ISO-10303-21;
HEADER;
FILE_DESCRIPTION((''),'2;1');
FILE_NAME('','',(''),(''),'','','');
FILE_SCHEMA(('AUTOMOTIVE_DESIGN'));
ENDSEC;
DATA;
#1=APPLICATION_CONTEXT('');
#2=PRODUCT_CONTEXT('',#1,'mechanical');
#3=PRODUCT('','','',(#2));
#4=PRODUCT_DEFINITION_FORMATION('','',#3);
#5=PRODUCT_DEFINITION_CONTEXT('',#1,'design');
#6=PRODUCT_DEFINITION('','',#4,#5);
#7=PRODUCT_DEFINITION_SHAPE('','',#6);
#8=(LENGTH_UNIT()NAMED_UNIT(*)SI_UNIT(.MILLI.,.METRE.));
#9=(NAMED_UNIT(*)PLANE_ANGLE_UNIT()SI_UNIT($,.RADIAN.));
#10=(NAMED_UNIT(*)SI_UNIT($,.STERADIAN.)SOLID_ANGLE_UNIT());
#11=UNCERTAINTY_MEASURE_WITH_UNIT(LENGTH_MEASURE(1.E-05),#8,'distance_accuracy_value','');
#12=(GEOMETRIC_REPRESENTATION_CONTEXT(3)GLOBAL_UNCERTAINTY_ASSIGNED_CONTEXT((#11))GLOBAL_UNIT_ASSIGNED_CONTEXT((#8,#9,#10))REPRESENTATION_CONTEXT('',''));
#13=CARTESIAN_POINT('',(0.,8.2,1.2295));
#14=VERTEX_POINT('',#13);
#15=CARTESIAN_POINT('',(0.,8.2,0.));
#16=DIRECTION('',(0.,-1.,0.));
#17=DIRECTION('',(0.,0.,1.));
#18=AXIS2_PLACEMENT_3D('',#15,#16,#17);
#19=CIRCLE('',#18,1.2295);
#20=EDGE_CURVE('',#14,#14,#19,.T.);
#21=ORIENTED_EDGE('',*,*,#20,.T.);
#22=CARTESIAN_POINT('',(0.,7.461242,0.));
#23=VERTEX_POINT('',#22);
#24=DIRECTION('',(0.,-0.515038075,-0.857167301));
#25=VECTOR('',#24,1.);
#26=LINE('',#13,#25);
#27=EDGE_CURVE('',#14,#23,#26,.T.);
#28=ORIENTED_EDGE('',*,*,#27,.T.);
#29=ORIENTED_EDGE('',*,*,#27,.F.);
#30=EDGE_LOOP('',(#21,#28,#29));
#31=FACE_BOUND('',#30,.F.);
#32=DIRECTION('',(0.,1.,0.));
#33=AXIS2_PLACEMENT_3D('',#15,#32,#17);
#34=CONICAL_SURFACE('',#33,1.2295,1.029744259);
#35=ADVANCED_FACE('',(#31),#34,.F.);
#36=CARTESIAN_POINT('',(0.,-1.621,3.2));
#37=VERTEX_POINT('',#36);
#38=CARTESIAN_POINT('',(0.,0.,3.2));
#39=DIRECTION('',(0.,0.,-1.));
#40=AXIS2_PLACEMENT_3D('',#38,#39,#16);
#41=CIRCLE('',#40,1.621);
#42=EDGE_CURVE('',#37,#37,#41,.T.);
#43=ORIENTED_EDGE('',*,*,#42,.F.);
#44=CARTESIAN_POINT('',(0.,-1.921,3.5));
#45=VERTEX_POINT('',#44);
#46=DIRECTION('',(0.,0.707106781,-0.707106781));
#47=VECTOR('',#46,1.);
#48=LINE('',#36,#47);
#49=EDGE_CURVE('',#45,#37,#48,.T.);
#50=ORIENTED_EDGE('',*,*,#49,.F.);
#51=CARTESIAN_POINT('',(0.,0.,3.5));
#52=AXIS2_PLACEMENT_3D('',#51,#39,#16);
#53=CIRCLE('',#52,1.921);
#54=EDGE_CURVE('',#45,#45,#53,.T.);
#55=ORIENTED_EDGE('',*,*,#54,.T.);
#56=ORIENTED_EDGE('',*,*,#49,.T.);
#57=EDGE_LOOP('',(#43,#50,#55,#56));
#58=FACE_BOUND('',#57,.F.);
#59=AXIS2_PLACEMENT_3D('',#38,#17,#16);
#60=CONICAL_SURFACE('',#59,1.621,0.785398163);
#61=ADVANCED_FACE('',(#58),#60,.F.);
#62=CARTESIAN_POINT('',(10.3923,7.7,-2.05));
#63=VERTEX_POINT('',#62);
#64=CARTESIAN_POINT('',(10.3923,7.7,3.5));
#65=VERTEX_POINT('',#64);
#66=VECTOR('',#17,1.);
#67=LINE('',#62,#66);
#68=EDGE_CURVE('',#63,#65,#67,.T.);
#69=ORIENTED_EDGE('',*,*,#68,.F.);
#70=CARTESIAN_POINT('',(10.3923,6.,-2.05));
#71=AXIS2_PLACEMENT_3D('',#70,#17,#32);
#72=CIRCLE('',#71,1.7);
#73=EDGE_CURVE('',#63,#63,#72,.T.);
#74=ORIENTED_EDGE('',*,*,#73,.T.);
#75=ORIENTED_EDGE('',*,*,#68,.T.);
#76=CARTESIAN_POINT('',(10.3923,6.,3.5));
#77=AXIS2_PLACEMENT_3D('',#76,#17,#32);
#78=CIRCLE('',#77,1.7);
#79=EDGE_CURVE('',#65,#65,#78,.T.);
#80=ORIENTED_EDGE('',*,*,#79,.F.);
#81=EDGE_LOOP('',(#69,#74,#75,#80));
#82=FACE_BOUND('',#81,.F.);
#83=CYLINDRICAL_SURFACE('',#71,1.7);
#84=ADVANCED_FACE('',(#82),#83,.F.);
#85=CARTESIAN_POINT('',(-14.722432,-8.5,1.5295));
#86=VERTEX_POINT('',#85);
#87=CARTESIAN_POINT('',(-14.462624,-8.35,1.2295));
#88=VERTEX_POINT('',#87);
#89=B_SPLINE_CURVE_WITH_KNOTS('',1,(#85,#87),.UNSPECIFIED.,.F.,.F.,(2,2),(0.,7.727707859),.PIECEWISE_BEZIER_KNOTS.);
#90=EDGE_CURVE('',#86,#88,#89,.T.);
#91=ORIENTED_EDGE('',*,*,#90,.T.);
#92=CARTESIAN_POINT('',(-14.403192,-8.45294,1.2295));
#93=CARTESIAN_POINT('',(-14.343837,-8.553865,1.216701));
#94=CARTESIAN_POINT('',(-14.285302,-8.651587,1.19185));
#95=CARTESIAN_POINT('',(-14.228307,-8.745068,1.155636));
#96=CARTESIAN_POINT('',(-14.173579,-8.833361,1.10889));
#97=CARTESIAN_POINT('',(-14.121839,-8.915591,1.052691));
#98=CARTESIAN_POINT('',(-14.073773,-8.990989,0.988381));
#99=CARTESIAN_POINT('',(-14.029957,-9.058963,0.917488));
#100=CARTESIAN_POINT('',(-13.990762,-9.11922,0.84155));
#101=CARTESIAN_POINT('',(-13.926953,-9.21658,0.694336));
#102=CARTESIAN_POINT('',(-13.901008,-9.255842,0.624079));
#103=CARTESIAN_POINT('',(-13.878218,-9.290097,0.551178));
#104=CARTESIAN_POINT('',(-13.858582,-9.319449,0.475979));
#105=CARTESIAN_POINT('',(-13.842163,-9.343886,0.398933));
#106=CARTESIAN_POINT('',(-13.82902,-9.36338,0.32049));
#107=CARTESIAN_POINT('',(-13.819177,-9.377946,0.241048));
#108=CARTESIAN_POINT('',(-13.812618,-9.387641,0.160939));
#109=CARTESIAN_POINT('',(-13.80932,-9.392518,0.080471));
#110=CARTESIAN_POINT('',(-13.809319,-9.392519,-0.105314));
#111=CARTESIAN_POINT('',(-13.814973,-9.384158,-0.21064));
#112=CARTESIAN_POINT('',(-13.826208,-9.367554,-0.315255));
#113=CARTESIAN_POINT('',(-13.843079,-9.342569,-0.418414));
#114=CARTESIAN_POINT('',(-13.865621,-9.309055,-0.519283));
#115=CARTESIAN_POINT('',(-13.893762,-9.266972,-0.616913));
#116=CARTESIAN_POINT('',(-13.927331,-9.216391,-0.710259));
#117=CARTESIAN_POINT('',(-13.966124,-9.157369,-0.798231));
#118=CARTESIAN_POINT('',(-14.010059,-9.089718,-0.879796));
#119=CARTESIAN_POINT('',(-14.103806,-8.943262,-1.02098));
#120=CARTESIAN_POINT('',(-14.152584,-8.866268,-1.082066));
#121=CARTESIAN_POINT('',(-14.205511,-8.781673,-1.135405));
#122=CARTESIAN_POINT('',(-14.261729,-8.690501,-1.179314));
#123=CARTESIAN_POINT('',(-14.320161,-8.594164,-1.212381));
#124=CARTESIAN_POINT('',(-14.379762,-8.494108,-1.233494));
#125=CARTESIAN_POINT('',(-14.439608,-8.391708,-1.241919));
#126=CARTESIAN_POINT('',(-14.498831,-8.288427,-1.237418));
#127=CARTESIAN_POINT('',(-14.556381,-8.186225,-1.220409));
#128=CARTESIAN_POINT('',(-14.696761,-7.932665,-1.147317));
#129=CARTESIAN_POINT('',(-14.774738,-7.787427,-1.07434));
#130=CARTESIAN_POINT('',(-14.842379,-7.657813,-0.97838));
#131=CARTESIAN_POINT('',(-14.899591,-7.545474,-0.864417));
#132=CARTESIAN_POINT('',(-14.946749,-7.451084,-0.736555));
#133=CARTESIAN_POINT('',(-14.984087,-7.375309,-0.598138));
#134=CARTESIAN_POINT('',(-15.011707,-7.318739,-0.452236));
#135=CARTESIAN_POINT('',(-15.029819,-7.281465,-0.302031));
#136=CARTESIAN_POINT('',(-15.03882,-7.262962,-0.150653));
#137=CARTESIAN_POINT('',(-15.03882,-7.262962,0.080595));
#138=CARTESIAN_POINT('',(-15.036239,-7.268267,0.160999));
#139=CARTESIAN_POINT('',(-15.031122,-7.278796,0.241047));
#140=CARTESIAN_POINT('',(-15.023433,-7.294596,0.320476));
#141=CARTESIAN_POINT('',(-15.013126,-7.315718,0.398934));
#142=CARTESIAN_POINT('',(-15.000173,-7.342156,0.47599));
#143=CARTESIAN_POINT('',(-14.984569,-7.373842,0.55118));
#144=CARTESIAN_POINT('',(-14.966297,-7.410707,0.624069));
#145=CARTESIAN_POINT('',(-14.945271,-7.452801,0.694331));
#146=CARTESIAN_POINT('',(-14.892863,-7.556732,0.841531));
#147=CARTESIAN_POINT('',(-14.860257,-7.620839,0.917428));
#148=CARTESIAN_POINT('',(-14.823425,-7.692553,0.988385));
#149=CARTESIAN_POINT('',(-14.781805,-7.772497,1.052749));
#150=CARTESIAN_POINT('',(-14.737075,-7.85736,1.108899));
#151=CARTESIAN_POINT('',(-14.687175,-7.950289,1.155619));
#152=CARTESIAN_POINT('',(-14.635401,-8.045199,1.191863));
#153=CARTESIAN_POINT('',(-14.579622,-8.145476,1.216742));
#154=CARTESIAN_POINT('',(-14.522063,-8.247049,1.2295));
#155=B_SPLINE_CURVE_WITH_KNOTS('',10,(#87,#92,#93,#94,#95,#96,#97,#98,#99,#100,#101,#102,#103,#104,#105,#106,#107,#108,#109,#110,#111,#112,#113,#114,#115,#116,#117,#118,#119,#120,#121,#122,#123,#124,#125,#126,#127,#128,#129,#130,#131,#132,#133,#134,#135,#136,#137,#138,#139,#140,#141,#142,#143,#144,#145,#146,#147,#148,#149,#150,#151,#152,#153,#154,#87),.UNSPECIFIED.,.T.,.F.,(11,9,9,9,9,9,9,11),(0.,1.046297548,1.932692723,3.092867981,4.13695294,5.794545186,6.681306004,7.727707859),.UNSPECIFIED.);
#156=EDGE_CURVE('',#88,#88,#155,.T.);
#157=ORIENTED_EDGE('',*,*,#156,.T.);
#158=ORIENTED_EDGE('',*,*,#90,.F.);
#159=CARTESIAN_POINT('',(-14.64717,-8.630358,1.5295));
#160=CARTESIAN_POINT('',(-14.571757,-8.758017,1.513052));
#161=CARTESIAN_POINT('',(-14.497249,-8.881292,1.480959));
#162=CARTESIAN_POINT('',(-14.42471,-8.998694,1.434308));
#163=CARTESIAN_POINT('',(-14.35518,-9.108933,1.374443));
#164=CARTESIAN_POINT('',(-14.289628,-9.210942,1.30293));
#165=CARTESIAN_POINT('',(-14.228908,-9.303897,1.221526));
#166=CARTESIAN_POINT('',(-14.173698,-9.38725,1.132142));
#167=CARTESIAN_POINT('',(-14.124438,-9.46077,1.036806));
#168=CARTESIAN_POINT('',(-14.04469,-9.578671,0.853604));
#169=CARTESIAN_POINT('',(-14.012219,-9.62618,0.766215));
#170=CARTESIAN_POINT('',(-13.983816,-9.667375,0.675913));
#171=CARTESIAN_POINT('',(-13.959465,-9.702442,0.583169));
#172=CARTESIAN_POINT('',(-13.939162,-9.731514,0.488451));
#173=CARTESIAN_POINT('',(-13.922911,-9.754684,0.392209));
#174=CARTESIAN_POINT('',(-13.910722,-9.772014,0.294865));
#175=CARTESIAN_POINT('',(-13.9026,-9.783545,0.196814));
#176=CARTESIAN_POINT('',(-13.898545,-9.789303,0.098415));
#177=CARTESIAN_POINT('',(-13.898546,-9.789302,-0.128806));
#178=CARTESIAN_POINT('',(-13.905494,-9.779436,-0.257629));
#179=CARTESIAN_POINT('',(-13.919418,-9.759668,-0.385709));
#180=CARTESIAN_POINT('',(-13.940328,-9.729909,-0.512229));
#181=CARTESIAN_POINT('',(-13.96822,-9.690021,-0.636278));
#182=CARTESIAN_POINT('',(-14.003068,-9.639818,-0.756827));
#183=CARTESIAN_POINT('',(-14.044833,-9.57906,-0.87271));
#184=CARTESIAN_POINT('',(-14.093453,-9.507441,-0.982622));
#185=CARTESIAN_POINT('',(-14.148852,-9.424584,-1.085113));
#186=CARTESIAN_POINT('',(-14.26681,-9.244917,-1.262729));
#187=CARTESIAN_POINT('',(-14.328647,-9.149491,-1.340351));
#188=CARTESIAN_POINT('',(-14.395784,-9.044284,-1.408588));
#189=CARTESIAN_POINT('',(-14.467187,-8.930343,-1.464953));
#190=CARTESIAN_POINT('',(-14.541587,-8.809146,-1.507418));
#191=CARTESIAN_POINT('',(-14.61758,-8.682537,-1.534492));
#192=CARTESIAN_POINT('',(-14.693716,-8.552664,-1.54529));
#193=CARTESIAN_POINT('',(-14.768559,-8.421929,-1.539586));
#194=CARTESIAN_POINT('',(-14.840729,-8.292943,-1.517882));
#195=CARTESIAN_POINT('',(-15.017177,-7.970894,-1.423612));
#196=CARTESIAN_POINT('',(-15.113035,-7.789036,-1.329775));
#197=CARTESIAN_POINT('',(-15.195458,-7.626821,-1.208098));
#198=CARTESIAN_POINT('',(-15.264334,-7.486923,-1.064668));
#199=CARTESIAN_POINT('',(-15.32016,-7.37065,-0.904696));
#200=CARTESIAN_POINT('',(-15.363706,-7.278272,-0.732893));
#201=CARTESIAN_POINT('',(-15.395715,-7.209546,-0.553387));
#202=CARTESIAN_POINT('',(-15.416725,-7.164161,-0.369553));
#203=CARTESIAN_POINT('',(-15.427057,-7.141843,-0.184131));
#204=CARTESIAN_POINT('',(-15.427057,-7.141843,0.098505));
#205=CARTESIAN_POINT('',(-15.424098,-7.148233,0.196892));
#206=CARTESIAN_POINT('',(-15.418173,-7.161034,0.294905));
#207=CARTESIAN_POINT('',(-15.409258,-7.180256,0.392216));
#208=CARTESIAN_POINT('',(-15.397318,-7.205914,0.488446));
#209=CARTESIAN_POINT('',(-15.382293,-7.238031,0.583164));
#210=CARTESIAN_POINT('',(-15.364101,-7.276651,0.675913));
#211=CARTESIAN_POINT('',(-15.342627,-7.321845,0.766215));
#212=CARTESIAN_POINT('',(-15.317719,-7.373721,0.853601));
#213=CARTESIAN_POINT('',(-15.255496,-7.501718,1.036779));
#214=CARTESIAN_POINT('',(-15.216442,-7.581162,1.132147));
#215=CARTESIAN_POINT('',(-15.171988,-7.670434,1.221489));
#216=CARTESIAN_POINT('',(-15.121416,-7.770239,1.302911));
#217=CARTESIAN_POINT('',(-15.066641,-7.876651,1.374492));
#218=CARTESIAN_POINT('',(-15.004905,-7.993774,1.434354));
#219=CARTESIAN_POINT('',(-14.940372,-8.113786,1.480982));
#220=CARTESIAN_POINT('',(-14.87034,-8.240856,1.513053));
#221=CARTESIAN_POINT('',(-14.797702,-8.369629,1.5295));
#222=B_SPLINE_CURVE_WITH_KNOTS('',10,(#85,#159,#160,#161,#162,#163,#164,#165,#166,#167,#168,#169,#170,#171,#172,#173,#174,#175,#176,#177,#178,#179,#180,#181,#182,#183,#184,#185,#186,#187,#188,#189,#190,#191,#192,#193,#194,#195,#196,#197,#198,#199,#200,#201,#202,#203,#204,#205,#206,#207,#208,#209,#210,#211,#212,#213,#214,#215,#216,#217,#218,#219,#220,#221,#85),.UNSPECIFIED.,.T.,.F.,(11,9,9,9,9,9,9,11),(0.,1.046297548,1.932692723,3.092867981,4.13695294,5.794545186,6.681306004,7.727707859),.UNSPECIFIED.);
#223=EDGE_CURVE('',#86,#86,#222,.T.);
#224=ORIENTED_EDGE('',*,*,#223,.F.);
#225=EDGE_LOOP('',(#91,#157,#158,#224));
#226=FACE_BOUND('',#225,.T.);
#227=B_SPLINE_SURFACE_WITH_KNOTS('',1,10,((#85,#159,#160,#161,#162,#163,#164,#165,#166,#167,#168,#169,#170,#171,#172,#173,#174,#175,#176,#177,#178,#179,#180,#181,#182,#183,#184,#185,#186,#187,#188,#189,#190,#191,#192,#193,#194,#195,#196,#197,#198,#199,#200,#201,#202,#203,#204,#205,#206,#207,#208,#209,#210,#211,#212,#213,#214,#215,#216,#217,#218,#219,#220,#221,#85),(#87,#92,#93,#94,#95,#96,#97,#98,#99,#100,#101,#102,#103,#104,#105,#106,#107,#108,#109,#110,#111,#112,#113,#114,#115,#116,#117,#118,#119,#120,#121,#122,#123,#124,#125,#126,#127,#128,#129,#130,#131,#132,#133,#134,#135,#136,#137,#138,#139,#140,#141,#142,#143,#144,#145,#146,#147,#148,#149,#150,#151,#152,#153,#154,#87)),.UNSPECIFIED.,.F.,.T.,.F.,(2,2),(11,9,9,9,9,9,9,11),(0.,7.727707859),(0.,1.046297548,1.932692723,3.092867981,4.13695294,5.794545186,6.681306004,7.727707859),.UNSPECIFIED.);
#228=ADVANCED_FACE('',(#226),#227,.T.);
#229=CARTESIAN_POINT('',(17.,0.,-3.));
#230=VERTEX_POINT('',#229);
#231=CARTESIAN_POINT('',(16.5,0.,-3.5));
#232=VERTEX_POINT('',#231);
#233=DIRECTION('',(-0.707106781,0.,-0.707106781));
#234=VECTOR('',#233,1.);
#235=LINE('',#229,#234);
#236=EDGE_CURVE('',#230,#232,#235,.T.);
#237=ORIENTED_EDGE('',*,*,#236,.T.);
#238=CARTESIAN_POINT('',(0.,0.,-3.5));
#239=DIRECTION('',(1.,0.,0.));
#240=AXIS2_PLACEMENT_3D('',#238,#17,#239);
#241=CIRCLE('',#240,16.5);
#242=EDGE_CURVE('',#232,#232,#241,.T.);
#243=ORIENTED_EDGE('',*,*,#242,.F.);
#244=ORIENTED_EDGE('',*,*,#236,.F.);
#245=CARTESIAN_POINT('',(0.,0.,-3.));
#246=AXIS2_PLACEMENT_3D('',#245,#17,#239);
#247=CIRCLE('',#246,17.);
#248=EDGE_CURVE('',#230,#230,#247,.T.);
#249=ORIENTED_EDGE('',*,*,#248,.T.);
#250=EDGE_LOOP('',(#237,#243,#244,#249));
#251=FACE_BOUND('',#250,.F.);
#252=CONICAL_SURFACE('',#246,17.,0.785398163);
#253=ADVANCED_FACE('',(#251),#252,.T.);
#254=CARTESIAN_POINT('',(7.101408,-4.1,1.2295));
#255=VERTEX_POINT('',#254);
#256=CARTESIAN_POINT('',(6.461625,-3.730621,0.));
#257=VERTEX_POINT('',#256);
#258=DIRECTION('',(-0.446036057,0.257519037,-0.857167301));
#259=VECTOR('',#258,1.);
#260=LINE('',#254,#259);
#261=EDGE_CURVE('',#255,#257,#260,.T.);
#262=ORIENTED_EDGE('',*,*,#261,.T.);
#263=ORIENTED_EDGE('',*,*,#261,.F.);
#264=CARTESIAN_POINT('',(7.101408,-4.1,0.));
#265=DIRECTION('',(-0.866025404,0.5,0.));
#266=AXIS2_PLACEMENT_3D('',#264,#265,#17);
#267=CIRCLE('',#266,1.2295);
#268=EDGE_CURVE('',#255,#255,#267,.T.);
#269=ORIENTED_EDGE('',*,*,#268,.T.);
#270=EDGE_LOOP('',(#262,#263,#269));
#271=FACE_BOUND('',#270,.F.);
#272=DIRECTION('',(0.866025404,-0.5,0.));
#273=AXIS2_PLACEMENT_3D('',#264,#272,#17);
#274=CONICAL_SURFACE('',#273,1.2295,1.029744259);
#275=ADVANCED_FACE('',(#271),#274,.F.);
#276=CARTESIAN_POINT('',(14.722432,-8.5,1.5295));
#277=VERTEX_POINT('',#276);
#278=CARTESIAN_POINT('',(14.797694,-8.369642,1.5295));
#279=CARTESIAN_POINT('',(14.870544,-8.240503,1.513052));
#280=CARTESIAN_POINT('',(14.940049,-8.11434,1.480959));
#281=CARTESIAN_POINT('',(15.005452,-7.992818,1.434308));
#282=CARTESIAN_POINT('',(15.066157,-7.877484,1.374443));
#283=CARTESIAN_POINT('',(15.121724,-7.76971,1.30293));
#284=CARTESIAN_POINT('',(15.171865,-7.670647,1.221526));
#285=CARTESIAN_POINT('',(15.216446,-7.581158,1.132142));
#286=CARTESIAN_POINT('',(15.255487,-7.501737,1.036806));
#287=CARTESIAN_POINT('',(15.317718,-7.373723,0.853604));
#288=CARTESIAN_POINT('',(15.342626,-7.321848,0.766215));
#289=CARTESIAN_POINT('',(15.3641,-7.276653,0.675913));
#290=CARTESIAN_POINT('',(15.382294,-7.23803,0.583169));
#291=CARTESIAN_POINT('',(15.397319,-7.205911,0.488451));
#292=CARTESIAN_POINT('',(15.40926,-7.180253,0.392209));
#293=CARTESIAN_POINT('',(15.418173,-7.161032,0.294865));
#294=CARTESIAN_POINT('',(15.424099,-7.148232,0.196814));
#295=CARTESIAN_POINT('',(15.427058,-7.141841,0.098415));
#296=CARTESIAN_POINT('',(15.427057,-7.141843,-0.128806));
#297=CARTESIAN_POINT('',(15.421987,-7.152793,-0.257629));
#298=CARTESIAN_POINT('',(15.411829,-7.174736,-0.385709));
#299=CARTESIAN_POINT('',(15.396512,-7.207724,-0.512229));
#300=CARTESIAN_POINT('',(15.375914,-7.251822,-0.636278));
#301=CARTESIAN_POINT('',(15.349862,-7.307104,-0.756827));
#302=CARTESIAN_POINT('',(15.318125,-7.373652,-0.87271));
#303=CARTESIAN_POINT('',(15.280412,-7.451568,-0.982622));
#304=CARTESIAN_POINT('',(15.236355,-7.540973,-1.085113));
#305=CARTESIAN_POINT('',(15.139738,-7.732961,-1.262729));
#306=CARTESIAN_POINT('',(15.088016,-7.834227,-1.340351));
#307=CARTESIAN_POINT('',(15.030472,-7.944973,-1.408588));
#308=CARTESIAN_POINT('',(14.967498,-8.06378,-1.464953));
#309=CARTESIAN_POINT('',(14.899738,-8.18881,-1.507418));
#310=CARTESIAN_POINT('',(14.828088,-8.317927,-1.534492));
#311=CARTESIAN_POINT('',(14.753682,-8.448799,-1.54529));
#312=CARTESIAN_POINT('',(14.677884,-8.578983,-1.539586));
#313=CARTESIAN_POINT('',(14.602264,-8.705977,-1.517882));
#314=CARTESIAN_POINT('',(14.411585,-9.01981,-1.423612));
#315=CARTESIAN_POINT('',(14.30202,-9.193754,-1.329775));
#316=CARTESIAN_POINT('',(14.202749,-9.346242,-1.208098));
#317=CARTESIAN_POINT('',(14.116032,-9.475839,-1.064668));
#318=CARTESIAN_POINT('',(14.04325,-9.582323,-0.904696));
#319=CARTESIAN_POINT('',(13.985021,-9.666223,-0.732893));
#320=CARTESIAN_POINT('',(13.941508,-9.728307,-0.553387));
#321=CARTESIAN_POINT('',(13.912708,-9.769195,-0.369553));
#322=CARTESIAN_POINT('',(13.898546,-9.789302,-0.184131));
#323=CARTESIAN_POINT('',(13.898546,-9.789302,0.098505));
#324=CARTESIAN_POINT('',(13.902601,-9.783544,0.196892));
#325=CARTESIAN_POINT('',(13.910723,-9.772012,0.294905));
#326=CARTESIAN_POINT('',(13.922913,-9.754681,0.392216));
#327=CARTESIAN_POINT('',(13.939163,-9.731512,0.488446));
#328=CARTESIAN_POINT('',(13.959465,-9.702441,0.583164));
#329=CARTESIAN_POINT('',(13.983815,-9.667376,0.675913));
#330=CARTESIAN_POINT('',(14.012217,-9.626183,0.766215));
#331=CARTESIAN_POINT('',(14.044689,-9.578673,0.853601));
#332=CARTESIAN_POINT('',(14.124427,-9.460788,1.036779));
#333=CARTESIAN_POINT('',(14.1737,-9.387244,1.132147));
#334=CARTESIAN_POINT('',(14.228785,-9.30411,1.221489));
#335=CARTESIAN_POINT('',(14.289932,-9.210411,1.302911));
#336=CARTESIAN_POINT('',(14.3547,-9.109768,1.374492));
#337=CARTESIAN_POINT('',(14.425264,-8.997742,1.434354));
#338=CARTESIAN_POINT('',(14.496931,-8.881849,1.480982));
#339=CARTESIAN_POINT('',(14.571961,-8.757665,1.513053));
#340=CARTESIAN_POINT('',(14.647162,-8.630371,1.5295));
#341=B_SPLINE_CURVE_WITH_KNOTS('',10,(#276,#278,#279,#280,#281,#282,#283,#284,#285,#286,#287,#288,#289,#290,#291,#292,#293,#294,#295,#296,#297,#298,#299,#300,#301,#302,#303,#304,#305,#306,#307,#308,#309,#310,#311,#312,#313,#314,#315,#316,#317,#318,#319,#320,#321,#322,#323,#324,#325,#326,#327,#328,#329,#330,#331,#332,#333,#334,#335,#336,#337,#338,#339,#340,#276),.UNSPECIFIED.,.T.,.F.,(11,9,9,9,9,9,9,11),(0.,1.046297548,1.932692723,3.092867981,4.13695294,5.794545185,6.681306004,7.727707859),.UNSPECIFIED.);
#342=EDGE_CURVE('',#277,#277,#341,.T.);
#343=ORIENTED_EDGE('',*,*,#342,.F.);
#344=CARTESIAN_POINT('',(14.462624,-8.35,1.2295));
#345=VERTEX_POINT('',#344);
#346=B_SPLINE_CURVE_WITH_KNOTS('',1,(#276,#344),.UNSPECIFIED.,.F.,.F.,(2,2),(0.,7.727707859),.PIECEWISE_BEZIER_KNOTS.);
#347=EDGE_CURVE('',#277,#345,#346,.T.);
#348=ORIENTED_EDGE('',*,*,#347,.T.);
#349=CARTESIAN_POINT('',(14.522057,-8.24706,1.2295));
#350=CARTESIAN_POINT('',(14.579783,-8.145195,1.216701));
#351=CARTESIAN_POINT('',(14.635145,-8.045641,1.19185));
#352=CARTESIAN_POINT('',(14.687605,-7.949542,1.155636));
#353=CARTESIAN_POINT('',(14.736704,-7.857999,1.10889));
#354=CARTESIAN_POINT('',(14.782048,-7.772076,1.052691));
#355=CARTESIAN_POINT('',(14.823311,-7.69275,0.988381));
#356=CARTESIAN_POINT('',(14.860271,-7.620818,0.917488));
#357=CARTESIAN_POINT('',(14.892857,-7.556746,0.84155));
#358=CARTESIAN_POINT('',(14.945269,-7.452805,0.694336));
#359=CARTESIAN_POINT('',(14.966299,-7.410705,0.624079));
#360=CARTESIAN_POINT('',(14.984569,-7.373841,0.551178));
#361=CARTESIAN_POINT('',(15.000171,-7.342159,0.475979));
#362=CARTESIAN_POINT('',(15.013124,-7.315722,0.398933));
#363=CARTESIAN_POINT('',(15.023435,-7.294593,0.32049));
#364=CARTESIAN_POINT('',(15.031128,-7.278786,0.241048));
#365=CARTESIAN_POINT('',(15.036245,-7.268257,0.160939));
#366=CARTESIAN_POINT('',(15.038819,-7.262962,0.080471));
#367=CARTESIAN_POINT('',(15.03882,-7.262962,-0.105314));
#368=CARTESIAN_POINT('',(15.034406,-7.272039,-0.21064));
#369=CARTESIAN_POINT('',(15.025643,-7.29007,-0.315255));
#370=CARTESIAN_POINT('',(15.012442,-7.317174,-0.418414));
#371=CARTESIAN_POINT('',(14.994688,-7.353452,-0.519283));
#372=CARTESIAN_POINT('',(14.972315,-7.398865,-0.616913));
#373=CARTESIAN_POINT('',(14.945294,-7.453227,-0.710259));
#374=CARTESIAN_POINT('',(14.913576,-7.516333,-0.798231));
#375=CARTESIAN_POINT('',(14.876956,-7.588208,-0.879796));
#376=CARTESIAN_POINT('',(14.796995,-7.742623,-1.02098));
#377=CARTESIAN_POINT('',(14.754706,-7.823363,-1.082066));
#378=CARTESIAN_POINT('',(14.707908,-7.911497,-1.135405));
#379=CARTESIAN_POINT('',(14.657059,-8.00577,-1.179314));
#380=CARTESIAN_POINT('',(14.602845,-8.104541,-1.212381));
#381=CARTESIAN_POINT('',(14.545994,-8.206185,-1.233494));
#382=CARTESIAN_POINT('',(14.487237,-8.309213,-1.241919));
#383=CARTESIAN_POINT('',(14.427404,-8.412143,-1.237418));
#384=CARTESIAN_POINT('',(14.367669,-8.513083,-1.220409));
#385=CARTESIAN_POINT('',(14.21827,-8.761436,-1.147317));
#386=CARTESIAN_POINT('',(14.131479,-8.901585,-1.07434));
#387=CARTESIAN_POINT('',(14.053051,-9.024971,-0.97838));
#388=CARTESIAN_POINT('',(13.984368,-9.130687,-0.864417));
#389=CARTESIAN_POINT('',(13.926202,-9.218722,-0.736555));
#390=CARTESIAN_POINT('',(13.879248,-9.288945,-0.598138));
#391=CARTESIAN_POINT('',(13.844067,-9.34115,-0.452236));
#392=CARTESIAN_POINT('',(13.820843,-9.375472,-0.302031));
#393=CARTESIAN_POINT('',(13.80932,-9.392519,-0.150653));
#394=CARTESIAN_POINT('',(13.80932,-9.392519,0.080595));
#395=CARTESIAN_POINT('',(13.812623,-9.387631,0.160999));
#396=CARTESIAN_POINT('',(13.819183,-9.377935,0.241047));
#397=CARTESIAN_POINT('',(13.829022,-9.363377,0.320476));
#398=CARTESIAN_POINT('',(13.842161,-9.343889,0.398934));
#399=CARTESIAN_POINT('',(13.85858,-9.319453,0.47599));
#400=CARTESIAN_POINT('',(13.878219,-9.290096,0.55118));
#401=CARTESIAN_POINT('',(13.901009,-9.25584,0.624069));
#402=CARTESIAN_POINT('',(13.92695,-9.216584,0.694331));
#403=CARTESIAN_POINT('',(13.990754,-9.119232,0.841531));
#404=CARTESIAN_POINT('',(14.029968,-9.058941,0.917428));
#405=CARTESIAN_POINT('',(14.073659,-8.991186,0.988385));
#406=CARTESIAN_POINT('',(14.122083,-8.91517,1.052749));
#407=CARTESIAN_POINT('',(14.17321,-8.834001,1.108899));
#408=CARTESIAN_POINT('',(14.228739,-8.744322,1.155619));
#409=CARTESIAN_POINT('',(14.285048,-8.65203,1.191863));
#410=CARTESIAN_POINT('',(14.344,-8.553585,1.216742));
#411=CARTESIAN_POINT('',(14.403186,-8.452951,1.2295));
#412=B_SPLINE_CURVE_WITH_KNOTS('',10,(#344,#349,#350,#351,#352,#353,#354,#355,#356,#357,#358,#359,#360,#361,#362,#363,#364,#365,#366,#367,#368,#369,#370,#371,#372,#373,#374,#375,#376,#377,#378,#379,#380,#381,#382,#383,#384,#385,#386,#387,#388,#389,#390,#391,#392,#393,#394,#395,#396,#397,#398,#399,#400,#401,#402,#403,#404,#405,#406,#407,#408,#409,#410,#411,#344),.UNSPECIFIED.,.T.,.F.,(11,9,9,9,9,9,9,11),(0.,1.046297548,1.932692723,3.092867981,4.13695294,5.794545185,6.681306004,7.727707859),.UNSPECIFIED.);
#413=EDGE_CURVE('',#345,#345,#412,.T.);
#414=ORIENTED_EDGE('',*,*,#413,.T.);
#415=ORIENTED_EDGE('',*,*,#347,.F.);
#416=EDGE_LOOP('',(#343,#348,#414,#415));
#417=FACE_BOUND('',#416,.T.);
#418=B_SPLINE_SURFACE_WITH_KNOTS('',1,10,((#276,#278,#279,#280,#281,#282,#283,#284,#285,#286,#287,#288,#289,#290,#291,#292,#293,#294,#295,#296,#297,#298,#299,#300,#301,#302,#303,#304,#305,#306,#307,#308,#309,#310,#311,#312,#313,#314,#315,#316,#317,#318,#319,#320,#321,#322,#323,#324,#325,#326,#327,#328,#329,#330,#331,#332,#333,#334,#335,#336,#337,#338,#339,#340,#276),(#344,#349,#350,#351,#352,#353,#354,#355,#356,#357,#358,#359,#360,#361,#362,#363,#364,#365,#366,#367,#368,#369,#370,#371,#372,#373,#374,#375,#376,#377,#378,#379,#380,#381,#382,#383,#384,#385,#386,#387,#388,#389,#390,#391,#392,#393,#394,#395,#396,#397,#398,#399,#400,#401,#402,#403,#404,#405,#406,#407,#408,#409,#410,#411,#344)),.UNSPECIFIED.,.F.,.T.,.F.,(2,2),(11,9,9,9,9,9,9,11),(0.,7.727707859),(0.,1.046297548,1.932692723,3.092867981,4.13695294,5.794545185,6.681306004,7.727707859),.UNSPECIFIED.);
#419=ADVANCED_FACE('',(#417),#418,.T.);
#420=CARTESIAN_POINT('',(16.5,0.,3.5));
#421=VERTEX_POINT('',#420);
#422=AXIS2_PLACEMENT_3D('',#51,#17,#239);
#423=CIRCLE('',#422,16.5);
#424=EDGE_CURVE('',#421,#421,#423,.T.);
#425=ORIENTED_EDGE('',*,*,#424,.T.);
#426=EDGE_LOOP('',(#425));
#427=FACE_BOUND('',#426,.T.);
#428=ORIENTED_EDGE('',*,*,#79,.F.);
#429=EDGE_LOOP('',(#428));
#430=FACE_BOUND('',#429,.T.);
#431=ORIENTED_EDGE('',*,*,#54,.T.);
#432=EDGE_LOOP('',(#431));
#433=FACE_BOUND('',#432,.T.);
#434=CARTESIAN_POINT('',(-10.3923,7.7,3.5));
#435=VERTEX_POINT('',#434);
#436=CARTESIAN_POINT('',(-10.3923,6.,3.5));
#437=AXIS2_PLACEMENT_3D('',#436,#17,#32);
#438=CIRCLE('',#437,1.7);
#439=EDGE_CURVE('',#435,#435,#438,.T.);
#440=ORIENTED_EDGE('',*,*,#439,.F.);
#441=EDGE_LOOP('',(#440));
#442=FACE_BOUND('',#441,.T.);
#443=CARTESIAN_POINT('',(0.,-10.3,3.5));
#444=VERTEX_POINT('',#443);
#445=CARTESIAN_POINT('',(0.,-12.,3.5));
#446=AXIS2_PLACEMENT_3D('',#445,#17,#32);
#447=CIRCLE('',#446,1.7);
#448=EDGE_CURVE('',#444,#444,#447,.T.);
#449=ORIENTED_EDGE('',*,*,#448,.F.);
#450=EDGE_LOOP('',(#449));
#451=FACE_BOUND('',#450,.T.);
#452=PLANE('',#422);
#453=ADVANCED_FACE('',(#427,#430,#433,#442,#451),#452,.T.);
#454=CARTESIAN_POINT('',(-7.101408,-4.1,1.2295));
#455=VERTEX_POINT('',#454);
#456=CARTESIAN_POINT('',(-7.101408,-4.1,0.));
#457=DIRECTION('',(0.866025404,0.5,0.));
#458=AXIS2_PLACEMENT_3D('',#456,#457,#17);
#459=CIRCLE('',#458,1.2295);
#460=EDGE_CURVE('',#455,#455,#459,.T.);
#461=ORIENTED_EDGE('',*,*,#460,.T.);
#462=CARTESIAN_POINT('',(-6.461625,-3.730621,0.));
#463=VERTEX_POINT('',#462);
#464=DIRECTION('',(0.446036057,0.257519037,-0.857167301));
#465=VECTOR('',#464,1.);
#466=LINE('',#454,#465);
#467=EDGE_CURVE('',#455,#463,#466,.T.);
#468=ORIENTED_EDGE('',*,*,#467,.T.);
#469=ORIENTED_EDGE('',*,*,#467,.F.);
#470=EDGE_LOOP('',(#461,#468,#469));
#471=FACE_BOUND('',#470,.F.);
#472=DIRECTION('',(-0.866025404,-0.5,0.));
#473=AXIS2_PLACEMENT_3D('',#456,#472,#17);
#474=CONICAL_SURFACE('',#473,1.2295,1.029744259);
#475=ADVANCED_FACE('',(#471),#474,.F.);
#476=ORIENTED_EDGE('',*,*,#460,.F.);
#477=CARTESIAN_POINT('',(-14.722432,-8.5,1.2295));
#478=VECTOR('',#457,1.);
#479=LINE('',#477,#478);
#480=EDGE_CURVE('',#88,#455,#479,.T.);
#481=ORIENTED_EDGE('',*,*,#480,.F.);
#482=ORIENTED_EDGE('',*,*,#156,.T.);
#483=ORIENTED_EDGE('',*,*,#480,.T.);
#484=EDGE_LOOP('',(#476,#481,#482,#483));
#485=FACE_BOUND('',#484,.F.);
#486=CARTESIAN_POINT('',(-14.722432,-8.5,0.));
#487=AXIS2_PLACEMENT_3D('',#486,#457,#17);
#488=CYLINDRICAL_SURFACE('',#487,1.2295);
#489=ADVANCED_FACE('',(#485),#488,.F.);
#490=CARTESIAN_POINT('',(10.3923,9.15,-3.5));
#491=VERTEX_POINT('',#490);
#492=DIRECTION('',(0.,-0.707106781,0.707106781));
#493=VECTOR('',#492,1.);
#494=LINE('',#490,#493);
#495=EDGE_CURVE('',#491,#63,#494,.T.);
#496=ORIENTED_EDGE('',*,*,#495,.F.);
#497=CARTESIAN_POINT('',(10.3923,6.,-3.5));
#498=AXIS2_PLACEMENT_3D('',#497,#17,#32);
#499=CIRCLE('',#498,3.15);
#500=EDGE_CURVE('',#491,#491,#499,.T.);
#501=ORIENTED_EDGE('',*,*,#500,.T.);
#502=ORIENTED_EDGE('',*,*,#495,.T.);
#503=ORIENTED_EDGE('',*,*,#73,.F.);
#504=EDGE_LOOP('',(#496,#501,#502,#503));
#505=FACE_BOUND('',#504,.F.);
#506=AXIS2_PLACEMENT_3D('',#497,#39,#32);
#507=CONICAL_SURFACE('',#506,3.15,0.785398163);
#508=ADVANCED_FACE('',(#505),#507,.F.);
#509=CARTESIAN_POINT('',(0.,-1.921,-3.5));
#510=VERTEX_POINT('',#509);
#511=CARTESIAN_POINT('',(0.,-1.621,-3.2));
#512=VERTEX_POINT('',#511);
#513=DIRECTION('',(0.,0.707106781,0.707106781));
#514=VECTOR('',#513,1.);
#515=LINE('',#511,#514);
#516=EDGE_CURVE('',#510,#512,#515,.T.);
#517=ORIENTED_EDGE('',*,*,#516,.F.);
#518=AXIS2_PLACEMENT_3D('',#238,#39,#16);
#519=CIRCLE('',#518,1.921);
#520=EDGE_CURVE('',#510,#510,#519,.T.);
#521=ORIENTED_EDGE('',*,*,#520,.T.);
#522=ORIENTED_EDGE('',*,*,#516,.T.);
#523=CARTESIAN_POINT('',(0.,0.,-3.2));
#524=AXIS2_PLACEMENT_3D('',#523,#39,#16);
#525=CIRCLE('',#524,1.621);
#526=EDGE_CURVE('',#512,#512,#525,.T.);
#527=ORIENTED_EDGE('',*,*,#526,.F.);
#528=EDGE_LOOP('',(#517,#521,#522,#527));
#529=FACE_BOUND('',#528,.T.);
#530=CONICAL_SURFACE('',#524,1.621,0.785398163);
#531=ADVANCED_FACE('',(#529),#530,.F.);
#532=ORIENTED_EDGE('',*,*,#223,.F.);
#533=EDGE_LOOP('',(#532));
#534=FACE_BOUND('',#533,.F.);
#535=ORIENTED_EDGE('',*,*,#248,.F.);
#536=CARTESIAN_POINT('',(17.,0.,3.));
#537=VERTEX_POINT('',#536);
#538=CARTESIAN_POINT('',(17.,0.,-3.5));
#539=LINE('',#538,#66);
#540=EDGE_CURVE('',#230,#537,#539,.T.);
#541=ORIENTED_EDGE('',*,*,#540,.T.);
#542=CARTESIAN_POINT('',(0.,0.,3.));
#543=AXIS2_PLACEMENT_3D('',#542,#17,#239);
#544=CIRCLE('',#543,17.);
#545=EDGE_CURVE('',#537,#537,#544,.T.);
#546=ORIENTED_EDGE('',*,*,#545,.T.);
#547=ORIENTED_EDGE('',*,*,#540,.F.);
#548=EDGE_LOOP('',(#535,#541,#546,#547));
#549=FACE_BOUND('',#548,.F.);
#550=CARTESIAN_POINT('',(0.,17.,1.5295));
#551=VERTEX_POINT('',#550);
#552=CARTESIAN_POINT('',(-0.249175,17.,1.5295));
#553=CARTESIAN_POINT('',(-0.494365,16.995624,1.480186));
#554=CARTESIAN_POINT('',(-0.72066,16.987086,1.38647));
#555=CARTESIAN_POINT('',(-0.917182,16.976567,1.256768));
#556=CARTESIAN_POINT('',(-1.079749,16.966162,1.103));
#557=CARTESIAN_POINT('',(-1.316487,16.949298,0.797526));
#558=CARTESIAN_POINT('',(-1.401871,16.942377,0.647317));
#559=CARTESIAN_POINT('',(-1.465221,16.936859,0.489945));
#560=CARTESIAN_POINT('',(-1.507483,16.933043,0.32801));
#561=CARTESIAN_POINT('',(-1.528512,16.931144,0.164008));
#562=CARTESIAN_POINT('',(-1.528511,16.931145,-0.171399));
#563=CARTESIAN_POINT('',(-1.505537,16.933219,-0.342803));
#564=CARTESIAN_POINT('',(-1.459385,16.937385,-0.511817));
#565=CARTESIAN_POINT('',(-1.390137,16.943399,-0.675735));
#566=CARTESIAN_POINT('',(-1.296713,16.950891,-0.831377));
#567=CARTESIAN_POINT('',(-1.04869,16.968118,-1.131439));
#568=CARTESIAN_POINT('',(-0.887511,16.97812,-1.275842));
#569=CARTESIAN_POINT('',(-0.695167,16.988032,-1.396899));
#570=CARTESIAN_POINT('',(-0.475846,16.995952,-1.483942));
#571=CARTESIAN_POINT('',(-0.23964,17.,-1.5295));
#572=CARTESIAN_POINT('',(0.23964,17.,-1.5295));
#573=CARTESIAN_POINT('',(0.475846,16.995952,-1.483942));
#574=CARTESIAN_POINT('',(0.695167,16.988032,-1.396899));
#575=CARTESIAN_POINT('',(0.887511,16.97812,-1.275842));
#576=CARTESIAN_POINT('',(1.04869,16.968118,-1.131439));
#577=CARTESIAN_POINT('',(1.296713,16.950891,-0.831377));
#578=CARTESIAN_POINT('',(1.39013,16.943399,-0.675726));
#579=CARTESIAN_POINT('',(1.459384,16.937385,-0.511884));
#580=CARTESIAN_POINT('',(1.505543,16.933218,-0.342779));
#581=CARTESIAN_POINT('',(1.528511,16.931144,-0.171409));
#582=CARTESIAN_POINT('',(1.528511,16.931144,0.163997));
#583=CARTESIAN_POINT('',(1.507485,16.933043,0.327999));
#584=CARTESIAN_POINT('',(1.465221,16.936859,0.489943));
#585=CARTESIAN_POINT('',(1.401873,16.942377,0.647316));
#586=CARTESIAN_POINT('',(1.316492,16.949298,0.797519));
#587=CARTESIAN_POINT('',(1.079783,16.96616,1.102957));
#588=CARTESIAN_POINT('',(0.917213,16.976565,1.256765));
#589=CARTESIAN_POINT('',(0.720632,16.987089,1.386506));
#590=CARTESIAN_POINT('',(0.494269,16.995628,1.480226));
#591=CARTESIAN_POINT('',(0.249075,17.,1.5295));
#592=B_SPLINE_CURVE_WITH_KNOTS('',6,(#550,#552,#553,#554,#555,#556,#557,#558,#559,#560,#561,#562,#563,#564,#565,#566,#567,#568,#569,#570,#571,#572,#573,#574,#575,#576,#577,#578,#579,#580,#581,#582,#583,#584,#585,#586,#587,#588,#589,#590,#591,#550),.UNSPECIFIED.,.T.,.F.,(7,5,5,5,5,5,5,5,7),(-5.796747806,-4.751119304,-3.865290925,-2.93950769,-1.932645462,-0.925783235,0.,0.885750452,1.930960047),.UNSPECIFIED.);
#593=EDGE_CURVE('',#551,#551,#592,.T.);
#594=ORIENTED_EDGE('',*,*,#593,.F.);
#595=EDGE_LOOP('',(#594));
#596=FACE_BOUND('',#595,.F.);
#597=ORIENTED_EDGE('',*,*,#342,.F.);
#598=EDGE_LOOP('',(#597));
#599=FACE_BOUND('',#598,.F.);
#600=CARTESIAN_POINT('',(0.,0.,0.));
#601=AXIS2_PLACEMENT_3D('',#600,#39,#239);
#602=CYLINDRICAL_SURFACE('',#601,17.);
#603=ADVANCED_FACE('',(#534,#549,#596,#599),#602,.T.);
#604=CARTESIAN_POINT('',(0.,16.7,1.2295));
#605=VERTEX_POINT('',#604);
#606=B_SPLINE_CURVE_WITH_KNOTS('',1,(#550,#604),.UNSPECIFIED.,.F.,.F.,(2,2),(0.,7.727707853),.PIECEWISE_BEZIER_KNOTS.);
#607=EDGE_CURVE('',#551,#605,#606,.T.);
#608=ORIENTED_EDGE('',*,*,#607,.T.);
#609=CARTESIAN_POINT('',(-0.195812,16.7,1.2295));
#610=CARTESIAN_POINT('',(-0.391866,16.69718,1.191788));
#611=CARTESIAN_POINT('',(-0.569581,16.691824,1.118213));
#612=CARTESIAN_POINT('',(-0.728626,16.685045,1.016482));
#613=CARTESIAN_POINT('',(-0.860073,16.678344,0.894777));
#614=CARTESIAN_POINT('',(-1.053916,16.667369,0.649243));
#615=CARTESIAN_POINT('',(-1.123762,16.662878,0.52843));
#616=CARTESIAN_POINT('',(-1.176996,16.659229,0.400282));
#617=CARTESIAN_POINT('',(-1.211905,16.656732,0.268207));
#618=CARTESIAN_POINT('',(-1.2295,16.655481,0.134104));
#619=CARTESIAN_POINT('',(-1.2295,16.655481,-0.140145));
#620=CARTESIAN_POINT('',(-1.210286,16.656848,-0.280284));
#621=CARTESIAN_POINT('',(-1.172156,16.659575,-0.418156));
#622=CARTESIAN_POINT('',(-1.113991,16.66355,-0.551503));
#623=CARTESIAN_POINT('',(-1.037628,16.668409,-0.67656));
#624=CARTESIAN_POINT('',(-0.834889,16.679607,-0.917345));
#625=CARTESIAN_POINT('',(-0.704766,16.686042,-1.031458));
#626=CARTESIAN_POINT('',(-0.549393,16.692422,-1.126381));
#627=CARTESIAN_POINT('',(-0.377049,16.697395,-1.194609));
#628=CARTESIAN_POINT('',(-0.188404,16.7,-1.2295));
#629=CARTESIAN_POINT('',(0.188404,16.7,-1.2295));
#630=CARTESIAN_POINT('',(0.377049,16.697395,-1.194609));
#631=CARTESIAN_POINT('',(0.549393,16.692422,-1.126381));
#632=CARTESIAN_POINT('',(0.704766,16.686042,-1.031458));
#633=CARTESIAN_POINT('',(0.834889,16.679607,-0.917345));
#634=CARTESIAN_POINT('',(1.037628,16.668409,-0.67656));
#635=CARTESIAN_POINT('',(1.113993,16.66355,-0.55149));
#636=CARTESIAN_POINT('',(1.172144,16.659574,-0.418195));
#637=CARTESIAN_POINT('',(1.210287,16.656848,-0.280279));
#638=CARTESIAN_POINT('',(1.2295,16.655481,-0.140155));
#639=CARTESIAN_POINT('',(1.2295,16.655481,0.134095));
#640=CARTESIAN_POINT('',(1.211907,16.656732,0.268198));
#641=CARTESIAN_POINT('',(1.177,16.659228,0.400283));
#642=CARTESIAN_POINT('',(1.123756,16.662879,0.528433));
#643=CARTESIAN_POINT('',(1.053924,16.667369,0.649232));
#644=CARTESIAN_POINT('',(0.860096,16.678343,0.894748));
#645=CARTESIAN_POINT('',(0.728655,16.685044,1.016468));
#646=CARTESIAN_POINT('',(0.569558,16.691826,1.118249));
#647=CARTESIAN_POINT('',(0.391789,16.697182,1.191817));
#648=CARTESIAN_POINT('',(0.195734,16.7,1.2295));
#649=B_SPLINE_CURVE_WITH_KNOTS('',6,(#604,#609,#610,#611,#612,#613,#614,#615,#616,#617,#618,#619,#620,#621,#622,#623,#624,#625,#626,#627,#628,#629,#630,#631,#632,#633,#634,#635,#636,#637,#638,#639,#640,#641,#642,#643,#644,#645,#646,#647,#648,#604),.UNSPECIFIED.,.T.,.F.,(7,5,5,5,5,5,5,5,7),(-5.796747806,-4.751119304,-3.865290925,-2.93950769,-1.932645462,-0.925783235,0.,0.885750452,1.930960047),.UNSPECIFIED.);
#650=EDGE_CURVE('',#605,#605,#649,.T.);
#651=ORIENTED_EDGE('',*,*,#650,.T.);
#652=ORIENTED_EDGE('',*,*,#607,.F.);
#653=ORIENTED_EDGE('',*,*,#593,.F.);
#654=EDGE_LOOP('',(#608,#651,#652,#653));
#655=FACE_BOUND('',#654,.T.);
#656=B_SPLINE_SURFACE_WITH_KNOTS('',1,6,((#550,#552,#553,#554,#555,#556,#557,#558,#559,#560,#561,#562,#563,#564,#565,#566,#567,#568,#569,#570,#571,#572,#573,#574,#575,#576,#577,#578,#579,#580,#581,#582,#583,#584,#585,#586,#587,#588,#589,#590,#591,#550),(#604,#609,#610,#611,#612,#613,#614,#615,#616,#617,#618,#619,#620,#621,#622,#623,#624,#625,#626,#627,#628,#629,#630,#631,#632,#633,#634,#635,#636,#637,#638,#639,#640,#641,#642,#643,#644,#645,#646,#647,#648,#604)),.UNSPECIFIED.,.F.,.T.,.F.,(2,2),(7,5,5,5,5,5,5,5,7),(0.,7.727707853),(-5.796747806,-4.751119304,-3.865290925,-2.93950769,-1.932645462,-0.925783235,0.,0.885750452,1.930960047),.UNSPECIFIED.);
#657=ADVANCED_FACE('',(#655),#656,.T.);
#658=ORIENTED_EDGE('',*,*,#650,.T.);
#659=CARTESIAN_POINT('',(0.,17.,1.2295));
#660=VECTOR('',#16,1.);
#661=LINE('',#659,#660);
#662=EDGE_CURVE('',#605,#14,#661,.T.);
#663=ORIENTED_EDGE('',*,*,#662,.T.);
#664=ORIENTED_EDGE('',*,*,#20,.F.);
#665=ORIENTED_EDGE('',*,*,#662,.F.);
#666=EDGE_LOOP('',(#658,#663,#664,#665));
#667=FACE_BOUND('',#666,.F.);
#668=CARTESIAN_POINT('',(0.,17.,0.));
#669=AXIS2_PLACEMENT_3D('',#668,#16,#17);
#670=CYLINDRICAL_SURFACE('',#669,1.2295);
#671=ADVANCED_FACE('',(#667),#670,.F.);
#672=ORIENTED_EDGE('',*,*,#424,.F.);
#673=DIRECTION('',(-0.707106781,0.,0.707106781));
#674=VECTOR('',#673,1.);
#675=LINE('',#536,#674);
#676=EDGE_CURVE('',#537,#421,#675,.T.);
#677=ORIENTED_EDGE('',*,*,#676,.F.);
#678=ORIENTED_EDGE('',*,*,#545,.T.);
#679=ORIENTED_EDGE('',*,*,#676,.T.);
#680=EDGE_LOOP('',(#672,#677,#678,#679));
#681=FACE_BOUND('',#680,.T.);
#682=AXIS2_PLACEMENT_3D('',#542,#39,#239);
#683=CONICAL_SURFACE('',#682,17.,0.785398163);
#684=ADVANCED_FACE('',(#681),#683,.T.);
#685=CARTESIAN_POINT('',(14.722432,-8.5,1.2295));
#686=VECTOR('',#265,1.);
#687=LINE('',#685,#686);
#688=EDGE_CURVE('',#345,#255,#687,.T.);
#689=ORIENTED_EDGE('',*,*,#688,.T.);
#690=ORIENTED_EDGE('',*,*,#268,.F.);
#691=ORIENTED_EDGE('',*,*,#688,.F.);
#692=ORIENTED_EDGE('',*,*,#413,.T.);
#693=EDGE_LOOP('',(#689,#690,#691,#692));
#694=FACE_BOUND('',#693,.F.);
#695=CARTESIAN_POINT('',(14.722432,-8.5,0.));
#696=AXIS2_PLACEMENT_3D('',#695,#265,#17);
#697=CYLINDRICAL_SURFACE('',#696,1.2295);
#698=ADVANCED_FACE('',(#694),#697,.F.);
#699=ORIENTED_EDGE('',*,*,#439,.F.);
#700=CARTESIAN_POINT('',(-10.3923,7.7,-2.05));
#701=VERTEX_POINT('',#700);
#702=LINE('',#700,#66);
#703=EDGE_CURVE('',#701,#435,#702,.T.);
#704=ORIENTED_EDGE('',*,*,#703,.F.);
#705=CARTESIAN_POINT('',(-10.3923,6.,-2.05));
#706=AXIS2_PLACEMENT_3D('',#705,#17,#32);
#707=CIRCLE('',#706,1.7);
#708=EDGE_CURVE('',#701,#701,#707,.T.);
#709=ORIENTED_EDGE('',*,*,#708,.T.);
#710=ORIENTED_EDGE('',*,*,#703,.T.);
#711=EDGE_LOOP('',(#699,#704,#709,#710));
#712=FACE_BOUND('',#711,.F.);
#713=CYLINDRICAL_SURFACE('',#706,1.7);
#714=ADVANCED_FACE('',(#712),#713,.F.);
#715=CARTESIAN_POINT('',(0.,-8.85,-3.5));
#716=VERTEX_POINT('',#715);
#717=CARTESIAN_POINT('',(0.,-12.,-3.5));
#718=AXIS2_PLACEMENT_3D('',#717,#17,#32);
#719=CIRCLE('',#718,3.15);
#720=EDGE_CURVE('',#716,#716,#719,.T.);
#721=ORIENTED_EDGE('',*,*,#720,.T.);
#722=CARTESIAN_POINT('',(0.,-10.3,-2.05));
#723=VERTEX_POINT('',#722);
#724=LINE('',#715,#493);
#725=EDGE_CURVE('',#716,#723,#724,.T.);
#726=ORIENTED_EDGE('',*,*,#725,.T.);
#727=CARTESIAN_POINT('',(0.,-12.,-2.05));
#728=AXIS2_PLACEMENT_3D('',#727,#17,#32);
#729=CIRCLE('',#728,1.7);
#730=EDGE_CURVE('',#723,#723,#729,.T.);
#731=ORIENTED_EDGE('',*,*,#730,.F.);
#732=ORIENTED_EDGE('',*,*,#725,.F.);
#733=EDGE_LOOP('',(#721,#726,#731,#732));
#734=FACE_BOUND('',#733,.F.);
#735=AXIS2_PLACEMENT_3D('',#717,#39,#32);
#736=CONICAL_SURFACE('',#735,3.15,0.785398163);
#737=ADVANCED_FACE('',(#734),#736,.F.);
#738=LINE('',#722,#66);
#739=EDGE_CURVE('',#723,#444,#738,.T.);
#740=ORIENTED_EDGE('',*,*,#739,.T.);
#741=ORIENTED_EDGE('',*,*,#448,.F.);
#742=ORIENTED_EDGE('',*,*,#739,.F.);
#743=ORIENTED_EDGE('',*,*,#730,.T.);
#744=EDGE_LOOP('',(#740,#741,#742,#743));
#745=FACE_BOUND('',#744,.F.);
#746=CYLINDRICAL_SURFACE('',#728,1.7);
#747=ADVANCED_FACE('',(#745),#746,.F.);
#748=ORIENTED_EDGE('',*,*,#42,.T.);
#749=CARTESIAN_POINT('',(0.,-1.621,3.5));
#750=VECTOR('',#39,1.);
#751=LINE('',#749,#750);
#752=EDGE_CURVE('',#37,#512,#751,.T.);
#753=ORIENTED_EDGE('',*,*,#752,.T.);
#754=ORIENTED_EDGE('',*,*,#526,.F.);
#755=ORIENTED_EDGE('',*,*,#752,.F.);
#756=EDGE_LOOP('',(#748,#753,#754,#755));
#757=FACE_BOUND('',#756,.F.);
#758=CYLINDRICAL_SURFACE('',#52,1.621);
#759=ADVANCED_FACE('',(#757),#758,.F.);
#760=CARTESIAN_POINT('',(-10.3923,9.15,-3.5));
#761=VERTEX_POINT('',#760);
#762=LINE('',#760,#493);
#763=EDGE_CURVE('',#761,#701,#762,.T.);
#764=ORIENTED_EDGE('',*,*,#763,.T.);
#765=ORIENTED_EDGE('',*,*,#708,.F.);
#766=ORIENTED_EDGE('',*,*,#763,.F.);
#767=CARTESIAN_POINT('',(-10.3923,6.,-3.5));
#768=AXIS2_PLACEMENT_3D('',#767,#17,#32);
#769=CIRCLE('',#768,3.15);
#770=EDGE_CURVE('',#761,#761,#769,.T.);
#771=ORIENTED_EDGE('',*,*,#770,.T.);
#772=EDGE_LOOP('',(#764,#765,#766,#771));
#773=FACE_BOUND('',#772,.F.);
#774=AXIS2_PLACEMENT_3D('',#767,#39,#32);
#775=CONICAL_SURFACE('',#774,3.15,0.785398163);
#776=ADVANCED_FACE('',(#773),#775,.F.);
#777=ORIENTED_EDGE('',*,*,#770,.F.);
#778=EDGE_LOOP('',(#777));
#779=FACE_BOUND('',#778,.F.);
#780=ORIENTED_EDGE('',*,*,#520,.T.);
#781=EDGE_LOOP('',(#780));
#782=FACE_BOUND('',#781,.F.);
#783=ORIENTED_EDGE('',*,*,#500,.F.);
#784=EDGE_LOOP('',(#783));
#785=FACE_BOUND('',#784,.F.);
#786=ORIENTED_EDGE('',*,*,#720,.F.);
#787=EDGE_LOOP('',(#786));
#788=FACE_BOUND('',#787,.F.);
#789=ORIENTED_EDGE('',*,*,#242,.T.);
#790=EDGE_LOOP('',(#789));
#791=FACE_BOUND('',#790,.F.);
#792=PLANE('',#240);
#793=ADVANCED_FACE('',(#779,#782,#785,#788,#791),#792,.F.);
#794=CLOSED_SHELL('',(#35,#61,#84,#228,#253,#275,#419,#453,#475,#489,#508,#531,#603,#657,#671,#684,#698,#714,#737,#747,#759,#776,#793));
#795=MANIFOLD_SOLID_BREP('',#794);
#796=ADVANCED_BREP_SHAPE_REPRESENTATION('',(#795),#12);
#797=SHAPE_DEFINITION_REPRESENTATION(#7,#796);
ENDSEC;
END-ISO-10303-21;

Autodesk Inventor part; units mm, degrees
sketch "Sketch2" plane through (0, 0, 0) normal (0, 0, 1) x (1, 0, 0)
  circle A0 centre (0, 0) radius 17
  dimension "d0" = 34
extrude "Extrusion1" add sketch "Sketch2" along normal mid plane 7
ref_plane "Work Plane2" through (0, 17, 0) normal (0, 1, 0) x (-1, 0, 0)
sketch "Sketch3" plane through (0, 17, 0) normal (0, 1, 0) x (-1, 0, 0)
  point P0 (0, 0)
  point P1 (0, 0)
sketch "Sketch4" plane through (0, 0, 0) normal (0, 0, 1) x (1, 0, 0)
  circle A0 centre (0, 0) radius 17 projected
  point P0 (0, 17)
  point P1 (0, 17)
  point P2 (0, 17)
  point P3 (-14.7224, -8.5)
  point P4 (-14.7224, -8.5)
  point P5 (-14.7224, -8.5)
  point P6 (14.7224, -8.5)
  point P7 (14.7224, -8.5)
  point P8 (14.7224, -8.5)
  dimension "d5" = 360
ref_plane "Work Plane3" through (14.7224, -8.5, 0) normal (0.866, -0.5, 0) x (0.5, 0.866, 0)
ref_plane "Work Plane4" through (-14.7224, -8.5, 0) normal (-0.866, -0.5, 0) x (0.5, -0.866, 0)
sketch "Sketch5" plane through (-14.7224, -8.5, 0) normal (-0.866, -0.5, 0) x (0.5, -0.866, 0)
  point P0 (0, 0)
ref_plane "Work Plane5" through (0, 0, 0) normal (0, 0, 1) x (1, 0, 0)
sketch "Sketch8" plane through (0, 0, 3.5) normal (0, 0, 1) x (1, 0, 0)
  circle A0 centre (0, 0) radius 12
  point P0 (0, -12)
  point P1 (10.3923, 6)
  point P2 (-10.3923, 6)
  dimension "d7" = 24
  dimension "d10" = 360
sketch "Sketch9" plane through (0, 0, 0) normal (0, 0, 1) x (1, 0, 0)
  point P0 (0, 0)
hole "Hole3" at (0, 0, 3.5) direction (0, 0, -1) diameter 3.242 end through all thread size "M4x0.7" class "6H" standard "ISO Metric profile"
sketch "Sketch12" plane through (0, 17, 0) normal (0, 1, 0) x (-1, 0, 0)
  point P0 (0, 0)
sketch "Sketch13" plane through (0, 17, 0) normal (0, 1, 0) x (-1, 0, 0)
  point P0 (0, 0)
  point P1 (0, 0)
hole "Hole4" at (0, 17, 0) direction (0, -1, 0) diameter 2.459 depth 8.8 tip angle 118 thread size "M3x0.5" class "6H" standard "ISO Metric profile"
pattern_circular "Circular Pattern1" count 3 over 360 about axis through (0, 0, -10) along (0, 0, 1) of "Hole4"
chamfer "Chamfer1" distance 0.3 angle 45 10 edges at (0, 1.621, -3.5) (0, 1.621, 3.5) (0.922, 16.975, 0.8134) (0.9217, 16.975, -0.8138) (-0.9219, 16.975, 0.8135) (-0.9217, 16.975, -0.8138) (15.2986, -7.413, -0.0002) (14.0691, -9.5425, 0.002) (-14.0691, -9.5425, -0.0002) (-15.2986, -7.413, 0.002)
chamfer "Chamfer2" distance 0.5 angle 45 2 edges at (-17, 0, 3.5) (-17, 0, -3.5)
sketch "Sketch14" plane through (0, 0, -3.5) normal (0, 0, -1) x (-1, 0, 0)
  point P0 (0, 0)
  point P1 (0, -12)
  point P2 (10.3923, 6)
  point P3 (-10.3923, 6)
  dimension "d42" = 12
  dimension "d45" = 360
hole "Hole5" at (-10.3923, 6, -3.5) at (10.3923, 6, -3.5) at (0, -12, -3.5) direction (0, 0, 1) diameter 3.4 end through all countersink diameter 6.3 countersink angle 90 clearance for "Countersunk Flat Head Screw ISO 2009/7046" size "M3" standard "ISO"
sketch "Sketch10" plane through (0, 0, 3.5) normal (0, 0, 1) x (1, 0, 0)
  point P0 (10.3923, 6)
  point P1 (0, -12)
  point P2 (-10.3923, 6)
properties part number "srodek_pajaka" material "Aluminum 6061"
